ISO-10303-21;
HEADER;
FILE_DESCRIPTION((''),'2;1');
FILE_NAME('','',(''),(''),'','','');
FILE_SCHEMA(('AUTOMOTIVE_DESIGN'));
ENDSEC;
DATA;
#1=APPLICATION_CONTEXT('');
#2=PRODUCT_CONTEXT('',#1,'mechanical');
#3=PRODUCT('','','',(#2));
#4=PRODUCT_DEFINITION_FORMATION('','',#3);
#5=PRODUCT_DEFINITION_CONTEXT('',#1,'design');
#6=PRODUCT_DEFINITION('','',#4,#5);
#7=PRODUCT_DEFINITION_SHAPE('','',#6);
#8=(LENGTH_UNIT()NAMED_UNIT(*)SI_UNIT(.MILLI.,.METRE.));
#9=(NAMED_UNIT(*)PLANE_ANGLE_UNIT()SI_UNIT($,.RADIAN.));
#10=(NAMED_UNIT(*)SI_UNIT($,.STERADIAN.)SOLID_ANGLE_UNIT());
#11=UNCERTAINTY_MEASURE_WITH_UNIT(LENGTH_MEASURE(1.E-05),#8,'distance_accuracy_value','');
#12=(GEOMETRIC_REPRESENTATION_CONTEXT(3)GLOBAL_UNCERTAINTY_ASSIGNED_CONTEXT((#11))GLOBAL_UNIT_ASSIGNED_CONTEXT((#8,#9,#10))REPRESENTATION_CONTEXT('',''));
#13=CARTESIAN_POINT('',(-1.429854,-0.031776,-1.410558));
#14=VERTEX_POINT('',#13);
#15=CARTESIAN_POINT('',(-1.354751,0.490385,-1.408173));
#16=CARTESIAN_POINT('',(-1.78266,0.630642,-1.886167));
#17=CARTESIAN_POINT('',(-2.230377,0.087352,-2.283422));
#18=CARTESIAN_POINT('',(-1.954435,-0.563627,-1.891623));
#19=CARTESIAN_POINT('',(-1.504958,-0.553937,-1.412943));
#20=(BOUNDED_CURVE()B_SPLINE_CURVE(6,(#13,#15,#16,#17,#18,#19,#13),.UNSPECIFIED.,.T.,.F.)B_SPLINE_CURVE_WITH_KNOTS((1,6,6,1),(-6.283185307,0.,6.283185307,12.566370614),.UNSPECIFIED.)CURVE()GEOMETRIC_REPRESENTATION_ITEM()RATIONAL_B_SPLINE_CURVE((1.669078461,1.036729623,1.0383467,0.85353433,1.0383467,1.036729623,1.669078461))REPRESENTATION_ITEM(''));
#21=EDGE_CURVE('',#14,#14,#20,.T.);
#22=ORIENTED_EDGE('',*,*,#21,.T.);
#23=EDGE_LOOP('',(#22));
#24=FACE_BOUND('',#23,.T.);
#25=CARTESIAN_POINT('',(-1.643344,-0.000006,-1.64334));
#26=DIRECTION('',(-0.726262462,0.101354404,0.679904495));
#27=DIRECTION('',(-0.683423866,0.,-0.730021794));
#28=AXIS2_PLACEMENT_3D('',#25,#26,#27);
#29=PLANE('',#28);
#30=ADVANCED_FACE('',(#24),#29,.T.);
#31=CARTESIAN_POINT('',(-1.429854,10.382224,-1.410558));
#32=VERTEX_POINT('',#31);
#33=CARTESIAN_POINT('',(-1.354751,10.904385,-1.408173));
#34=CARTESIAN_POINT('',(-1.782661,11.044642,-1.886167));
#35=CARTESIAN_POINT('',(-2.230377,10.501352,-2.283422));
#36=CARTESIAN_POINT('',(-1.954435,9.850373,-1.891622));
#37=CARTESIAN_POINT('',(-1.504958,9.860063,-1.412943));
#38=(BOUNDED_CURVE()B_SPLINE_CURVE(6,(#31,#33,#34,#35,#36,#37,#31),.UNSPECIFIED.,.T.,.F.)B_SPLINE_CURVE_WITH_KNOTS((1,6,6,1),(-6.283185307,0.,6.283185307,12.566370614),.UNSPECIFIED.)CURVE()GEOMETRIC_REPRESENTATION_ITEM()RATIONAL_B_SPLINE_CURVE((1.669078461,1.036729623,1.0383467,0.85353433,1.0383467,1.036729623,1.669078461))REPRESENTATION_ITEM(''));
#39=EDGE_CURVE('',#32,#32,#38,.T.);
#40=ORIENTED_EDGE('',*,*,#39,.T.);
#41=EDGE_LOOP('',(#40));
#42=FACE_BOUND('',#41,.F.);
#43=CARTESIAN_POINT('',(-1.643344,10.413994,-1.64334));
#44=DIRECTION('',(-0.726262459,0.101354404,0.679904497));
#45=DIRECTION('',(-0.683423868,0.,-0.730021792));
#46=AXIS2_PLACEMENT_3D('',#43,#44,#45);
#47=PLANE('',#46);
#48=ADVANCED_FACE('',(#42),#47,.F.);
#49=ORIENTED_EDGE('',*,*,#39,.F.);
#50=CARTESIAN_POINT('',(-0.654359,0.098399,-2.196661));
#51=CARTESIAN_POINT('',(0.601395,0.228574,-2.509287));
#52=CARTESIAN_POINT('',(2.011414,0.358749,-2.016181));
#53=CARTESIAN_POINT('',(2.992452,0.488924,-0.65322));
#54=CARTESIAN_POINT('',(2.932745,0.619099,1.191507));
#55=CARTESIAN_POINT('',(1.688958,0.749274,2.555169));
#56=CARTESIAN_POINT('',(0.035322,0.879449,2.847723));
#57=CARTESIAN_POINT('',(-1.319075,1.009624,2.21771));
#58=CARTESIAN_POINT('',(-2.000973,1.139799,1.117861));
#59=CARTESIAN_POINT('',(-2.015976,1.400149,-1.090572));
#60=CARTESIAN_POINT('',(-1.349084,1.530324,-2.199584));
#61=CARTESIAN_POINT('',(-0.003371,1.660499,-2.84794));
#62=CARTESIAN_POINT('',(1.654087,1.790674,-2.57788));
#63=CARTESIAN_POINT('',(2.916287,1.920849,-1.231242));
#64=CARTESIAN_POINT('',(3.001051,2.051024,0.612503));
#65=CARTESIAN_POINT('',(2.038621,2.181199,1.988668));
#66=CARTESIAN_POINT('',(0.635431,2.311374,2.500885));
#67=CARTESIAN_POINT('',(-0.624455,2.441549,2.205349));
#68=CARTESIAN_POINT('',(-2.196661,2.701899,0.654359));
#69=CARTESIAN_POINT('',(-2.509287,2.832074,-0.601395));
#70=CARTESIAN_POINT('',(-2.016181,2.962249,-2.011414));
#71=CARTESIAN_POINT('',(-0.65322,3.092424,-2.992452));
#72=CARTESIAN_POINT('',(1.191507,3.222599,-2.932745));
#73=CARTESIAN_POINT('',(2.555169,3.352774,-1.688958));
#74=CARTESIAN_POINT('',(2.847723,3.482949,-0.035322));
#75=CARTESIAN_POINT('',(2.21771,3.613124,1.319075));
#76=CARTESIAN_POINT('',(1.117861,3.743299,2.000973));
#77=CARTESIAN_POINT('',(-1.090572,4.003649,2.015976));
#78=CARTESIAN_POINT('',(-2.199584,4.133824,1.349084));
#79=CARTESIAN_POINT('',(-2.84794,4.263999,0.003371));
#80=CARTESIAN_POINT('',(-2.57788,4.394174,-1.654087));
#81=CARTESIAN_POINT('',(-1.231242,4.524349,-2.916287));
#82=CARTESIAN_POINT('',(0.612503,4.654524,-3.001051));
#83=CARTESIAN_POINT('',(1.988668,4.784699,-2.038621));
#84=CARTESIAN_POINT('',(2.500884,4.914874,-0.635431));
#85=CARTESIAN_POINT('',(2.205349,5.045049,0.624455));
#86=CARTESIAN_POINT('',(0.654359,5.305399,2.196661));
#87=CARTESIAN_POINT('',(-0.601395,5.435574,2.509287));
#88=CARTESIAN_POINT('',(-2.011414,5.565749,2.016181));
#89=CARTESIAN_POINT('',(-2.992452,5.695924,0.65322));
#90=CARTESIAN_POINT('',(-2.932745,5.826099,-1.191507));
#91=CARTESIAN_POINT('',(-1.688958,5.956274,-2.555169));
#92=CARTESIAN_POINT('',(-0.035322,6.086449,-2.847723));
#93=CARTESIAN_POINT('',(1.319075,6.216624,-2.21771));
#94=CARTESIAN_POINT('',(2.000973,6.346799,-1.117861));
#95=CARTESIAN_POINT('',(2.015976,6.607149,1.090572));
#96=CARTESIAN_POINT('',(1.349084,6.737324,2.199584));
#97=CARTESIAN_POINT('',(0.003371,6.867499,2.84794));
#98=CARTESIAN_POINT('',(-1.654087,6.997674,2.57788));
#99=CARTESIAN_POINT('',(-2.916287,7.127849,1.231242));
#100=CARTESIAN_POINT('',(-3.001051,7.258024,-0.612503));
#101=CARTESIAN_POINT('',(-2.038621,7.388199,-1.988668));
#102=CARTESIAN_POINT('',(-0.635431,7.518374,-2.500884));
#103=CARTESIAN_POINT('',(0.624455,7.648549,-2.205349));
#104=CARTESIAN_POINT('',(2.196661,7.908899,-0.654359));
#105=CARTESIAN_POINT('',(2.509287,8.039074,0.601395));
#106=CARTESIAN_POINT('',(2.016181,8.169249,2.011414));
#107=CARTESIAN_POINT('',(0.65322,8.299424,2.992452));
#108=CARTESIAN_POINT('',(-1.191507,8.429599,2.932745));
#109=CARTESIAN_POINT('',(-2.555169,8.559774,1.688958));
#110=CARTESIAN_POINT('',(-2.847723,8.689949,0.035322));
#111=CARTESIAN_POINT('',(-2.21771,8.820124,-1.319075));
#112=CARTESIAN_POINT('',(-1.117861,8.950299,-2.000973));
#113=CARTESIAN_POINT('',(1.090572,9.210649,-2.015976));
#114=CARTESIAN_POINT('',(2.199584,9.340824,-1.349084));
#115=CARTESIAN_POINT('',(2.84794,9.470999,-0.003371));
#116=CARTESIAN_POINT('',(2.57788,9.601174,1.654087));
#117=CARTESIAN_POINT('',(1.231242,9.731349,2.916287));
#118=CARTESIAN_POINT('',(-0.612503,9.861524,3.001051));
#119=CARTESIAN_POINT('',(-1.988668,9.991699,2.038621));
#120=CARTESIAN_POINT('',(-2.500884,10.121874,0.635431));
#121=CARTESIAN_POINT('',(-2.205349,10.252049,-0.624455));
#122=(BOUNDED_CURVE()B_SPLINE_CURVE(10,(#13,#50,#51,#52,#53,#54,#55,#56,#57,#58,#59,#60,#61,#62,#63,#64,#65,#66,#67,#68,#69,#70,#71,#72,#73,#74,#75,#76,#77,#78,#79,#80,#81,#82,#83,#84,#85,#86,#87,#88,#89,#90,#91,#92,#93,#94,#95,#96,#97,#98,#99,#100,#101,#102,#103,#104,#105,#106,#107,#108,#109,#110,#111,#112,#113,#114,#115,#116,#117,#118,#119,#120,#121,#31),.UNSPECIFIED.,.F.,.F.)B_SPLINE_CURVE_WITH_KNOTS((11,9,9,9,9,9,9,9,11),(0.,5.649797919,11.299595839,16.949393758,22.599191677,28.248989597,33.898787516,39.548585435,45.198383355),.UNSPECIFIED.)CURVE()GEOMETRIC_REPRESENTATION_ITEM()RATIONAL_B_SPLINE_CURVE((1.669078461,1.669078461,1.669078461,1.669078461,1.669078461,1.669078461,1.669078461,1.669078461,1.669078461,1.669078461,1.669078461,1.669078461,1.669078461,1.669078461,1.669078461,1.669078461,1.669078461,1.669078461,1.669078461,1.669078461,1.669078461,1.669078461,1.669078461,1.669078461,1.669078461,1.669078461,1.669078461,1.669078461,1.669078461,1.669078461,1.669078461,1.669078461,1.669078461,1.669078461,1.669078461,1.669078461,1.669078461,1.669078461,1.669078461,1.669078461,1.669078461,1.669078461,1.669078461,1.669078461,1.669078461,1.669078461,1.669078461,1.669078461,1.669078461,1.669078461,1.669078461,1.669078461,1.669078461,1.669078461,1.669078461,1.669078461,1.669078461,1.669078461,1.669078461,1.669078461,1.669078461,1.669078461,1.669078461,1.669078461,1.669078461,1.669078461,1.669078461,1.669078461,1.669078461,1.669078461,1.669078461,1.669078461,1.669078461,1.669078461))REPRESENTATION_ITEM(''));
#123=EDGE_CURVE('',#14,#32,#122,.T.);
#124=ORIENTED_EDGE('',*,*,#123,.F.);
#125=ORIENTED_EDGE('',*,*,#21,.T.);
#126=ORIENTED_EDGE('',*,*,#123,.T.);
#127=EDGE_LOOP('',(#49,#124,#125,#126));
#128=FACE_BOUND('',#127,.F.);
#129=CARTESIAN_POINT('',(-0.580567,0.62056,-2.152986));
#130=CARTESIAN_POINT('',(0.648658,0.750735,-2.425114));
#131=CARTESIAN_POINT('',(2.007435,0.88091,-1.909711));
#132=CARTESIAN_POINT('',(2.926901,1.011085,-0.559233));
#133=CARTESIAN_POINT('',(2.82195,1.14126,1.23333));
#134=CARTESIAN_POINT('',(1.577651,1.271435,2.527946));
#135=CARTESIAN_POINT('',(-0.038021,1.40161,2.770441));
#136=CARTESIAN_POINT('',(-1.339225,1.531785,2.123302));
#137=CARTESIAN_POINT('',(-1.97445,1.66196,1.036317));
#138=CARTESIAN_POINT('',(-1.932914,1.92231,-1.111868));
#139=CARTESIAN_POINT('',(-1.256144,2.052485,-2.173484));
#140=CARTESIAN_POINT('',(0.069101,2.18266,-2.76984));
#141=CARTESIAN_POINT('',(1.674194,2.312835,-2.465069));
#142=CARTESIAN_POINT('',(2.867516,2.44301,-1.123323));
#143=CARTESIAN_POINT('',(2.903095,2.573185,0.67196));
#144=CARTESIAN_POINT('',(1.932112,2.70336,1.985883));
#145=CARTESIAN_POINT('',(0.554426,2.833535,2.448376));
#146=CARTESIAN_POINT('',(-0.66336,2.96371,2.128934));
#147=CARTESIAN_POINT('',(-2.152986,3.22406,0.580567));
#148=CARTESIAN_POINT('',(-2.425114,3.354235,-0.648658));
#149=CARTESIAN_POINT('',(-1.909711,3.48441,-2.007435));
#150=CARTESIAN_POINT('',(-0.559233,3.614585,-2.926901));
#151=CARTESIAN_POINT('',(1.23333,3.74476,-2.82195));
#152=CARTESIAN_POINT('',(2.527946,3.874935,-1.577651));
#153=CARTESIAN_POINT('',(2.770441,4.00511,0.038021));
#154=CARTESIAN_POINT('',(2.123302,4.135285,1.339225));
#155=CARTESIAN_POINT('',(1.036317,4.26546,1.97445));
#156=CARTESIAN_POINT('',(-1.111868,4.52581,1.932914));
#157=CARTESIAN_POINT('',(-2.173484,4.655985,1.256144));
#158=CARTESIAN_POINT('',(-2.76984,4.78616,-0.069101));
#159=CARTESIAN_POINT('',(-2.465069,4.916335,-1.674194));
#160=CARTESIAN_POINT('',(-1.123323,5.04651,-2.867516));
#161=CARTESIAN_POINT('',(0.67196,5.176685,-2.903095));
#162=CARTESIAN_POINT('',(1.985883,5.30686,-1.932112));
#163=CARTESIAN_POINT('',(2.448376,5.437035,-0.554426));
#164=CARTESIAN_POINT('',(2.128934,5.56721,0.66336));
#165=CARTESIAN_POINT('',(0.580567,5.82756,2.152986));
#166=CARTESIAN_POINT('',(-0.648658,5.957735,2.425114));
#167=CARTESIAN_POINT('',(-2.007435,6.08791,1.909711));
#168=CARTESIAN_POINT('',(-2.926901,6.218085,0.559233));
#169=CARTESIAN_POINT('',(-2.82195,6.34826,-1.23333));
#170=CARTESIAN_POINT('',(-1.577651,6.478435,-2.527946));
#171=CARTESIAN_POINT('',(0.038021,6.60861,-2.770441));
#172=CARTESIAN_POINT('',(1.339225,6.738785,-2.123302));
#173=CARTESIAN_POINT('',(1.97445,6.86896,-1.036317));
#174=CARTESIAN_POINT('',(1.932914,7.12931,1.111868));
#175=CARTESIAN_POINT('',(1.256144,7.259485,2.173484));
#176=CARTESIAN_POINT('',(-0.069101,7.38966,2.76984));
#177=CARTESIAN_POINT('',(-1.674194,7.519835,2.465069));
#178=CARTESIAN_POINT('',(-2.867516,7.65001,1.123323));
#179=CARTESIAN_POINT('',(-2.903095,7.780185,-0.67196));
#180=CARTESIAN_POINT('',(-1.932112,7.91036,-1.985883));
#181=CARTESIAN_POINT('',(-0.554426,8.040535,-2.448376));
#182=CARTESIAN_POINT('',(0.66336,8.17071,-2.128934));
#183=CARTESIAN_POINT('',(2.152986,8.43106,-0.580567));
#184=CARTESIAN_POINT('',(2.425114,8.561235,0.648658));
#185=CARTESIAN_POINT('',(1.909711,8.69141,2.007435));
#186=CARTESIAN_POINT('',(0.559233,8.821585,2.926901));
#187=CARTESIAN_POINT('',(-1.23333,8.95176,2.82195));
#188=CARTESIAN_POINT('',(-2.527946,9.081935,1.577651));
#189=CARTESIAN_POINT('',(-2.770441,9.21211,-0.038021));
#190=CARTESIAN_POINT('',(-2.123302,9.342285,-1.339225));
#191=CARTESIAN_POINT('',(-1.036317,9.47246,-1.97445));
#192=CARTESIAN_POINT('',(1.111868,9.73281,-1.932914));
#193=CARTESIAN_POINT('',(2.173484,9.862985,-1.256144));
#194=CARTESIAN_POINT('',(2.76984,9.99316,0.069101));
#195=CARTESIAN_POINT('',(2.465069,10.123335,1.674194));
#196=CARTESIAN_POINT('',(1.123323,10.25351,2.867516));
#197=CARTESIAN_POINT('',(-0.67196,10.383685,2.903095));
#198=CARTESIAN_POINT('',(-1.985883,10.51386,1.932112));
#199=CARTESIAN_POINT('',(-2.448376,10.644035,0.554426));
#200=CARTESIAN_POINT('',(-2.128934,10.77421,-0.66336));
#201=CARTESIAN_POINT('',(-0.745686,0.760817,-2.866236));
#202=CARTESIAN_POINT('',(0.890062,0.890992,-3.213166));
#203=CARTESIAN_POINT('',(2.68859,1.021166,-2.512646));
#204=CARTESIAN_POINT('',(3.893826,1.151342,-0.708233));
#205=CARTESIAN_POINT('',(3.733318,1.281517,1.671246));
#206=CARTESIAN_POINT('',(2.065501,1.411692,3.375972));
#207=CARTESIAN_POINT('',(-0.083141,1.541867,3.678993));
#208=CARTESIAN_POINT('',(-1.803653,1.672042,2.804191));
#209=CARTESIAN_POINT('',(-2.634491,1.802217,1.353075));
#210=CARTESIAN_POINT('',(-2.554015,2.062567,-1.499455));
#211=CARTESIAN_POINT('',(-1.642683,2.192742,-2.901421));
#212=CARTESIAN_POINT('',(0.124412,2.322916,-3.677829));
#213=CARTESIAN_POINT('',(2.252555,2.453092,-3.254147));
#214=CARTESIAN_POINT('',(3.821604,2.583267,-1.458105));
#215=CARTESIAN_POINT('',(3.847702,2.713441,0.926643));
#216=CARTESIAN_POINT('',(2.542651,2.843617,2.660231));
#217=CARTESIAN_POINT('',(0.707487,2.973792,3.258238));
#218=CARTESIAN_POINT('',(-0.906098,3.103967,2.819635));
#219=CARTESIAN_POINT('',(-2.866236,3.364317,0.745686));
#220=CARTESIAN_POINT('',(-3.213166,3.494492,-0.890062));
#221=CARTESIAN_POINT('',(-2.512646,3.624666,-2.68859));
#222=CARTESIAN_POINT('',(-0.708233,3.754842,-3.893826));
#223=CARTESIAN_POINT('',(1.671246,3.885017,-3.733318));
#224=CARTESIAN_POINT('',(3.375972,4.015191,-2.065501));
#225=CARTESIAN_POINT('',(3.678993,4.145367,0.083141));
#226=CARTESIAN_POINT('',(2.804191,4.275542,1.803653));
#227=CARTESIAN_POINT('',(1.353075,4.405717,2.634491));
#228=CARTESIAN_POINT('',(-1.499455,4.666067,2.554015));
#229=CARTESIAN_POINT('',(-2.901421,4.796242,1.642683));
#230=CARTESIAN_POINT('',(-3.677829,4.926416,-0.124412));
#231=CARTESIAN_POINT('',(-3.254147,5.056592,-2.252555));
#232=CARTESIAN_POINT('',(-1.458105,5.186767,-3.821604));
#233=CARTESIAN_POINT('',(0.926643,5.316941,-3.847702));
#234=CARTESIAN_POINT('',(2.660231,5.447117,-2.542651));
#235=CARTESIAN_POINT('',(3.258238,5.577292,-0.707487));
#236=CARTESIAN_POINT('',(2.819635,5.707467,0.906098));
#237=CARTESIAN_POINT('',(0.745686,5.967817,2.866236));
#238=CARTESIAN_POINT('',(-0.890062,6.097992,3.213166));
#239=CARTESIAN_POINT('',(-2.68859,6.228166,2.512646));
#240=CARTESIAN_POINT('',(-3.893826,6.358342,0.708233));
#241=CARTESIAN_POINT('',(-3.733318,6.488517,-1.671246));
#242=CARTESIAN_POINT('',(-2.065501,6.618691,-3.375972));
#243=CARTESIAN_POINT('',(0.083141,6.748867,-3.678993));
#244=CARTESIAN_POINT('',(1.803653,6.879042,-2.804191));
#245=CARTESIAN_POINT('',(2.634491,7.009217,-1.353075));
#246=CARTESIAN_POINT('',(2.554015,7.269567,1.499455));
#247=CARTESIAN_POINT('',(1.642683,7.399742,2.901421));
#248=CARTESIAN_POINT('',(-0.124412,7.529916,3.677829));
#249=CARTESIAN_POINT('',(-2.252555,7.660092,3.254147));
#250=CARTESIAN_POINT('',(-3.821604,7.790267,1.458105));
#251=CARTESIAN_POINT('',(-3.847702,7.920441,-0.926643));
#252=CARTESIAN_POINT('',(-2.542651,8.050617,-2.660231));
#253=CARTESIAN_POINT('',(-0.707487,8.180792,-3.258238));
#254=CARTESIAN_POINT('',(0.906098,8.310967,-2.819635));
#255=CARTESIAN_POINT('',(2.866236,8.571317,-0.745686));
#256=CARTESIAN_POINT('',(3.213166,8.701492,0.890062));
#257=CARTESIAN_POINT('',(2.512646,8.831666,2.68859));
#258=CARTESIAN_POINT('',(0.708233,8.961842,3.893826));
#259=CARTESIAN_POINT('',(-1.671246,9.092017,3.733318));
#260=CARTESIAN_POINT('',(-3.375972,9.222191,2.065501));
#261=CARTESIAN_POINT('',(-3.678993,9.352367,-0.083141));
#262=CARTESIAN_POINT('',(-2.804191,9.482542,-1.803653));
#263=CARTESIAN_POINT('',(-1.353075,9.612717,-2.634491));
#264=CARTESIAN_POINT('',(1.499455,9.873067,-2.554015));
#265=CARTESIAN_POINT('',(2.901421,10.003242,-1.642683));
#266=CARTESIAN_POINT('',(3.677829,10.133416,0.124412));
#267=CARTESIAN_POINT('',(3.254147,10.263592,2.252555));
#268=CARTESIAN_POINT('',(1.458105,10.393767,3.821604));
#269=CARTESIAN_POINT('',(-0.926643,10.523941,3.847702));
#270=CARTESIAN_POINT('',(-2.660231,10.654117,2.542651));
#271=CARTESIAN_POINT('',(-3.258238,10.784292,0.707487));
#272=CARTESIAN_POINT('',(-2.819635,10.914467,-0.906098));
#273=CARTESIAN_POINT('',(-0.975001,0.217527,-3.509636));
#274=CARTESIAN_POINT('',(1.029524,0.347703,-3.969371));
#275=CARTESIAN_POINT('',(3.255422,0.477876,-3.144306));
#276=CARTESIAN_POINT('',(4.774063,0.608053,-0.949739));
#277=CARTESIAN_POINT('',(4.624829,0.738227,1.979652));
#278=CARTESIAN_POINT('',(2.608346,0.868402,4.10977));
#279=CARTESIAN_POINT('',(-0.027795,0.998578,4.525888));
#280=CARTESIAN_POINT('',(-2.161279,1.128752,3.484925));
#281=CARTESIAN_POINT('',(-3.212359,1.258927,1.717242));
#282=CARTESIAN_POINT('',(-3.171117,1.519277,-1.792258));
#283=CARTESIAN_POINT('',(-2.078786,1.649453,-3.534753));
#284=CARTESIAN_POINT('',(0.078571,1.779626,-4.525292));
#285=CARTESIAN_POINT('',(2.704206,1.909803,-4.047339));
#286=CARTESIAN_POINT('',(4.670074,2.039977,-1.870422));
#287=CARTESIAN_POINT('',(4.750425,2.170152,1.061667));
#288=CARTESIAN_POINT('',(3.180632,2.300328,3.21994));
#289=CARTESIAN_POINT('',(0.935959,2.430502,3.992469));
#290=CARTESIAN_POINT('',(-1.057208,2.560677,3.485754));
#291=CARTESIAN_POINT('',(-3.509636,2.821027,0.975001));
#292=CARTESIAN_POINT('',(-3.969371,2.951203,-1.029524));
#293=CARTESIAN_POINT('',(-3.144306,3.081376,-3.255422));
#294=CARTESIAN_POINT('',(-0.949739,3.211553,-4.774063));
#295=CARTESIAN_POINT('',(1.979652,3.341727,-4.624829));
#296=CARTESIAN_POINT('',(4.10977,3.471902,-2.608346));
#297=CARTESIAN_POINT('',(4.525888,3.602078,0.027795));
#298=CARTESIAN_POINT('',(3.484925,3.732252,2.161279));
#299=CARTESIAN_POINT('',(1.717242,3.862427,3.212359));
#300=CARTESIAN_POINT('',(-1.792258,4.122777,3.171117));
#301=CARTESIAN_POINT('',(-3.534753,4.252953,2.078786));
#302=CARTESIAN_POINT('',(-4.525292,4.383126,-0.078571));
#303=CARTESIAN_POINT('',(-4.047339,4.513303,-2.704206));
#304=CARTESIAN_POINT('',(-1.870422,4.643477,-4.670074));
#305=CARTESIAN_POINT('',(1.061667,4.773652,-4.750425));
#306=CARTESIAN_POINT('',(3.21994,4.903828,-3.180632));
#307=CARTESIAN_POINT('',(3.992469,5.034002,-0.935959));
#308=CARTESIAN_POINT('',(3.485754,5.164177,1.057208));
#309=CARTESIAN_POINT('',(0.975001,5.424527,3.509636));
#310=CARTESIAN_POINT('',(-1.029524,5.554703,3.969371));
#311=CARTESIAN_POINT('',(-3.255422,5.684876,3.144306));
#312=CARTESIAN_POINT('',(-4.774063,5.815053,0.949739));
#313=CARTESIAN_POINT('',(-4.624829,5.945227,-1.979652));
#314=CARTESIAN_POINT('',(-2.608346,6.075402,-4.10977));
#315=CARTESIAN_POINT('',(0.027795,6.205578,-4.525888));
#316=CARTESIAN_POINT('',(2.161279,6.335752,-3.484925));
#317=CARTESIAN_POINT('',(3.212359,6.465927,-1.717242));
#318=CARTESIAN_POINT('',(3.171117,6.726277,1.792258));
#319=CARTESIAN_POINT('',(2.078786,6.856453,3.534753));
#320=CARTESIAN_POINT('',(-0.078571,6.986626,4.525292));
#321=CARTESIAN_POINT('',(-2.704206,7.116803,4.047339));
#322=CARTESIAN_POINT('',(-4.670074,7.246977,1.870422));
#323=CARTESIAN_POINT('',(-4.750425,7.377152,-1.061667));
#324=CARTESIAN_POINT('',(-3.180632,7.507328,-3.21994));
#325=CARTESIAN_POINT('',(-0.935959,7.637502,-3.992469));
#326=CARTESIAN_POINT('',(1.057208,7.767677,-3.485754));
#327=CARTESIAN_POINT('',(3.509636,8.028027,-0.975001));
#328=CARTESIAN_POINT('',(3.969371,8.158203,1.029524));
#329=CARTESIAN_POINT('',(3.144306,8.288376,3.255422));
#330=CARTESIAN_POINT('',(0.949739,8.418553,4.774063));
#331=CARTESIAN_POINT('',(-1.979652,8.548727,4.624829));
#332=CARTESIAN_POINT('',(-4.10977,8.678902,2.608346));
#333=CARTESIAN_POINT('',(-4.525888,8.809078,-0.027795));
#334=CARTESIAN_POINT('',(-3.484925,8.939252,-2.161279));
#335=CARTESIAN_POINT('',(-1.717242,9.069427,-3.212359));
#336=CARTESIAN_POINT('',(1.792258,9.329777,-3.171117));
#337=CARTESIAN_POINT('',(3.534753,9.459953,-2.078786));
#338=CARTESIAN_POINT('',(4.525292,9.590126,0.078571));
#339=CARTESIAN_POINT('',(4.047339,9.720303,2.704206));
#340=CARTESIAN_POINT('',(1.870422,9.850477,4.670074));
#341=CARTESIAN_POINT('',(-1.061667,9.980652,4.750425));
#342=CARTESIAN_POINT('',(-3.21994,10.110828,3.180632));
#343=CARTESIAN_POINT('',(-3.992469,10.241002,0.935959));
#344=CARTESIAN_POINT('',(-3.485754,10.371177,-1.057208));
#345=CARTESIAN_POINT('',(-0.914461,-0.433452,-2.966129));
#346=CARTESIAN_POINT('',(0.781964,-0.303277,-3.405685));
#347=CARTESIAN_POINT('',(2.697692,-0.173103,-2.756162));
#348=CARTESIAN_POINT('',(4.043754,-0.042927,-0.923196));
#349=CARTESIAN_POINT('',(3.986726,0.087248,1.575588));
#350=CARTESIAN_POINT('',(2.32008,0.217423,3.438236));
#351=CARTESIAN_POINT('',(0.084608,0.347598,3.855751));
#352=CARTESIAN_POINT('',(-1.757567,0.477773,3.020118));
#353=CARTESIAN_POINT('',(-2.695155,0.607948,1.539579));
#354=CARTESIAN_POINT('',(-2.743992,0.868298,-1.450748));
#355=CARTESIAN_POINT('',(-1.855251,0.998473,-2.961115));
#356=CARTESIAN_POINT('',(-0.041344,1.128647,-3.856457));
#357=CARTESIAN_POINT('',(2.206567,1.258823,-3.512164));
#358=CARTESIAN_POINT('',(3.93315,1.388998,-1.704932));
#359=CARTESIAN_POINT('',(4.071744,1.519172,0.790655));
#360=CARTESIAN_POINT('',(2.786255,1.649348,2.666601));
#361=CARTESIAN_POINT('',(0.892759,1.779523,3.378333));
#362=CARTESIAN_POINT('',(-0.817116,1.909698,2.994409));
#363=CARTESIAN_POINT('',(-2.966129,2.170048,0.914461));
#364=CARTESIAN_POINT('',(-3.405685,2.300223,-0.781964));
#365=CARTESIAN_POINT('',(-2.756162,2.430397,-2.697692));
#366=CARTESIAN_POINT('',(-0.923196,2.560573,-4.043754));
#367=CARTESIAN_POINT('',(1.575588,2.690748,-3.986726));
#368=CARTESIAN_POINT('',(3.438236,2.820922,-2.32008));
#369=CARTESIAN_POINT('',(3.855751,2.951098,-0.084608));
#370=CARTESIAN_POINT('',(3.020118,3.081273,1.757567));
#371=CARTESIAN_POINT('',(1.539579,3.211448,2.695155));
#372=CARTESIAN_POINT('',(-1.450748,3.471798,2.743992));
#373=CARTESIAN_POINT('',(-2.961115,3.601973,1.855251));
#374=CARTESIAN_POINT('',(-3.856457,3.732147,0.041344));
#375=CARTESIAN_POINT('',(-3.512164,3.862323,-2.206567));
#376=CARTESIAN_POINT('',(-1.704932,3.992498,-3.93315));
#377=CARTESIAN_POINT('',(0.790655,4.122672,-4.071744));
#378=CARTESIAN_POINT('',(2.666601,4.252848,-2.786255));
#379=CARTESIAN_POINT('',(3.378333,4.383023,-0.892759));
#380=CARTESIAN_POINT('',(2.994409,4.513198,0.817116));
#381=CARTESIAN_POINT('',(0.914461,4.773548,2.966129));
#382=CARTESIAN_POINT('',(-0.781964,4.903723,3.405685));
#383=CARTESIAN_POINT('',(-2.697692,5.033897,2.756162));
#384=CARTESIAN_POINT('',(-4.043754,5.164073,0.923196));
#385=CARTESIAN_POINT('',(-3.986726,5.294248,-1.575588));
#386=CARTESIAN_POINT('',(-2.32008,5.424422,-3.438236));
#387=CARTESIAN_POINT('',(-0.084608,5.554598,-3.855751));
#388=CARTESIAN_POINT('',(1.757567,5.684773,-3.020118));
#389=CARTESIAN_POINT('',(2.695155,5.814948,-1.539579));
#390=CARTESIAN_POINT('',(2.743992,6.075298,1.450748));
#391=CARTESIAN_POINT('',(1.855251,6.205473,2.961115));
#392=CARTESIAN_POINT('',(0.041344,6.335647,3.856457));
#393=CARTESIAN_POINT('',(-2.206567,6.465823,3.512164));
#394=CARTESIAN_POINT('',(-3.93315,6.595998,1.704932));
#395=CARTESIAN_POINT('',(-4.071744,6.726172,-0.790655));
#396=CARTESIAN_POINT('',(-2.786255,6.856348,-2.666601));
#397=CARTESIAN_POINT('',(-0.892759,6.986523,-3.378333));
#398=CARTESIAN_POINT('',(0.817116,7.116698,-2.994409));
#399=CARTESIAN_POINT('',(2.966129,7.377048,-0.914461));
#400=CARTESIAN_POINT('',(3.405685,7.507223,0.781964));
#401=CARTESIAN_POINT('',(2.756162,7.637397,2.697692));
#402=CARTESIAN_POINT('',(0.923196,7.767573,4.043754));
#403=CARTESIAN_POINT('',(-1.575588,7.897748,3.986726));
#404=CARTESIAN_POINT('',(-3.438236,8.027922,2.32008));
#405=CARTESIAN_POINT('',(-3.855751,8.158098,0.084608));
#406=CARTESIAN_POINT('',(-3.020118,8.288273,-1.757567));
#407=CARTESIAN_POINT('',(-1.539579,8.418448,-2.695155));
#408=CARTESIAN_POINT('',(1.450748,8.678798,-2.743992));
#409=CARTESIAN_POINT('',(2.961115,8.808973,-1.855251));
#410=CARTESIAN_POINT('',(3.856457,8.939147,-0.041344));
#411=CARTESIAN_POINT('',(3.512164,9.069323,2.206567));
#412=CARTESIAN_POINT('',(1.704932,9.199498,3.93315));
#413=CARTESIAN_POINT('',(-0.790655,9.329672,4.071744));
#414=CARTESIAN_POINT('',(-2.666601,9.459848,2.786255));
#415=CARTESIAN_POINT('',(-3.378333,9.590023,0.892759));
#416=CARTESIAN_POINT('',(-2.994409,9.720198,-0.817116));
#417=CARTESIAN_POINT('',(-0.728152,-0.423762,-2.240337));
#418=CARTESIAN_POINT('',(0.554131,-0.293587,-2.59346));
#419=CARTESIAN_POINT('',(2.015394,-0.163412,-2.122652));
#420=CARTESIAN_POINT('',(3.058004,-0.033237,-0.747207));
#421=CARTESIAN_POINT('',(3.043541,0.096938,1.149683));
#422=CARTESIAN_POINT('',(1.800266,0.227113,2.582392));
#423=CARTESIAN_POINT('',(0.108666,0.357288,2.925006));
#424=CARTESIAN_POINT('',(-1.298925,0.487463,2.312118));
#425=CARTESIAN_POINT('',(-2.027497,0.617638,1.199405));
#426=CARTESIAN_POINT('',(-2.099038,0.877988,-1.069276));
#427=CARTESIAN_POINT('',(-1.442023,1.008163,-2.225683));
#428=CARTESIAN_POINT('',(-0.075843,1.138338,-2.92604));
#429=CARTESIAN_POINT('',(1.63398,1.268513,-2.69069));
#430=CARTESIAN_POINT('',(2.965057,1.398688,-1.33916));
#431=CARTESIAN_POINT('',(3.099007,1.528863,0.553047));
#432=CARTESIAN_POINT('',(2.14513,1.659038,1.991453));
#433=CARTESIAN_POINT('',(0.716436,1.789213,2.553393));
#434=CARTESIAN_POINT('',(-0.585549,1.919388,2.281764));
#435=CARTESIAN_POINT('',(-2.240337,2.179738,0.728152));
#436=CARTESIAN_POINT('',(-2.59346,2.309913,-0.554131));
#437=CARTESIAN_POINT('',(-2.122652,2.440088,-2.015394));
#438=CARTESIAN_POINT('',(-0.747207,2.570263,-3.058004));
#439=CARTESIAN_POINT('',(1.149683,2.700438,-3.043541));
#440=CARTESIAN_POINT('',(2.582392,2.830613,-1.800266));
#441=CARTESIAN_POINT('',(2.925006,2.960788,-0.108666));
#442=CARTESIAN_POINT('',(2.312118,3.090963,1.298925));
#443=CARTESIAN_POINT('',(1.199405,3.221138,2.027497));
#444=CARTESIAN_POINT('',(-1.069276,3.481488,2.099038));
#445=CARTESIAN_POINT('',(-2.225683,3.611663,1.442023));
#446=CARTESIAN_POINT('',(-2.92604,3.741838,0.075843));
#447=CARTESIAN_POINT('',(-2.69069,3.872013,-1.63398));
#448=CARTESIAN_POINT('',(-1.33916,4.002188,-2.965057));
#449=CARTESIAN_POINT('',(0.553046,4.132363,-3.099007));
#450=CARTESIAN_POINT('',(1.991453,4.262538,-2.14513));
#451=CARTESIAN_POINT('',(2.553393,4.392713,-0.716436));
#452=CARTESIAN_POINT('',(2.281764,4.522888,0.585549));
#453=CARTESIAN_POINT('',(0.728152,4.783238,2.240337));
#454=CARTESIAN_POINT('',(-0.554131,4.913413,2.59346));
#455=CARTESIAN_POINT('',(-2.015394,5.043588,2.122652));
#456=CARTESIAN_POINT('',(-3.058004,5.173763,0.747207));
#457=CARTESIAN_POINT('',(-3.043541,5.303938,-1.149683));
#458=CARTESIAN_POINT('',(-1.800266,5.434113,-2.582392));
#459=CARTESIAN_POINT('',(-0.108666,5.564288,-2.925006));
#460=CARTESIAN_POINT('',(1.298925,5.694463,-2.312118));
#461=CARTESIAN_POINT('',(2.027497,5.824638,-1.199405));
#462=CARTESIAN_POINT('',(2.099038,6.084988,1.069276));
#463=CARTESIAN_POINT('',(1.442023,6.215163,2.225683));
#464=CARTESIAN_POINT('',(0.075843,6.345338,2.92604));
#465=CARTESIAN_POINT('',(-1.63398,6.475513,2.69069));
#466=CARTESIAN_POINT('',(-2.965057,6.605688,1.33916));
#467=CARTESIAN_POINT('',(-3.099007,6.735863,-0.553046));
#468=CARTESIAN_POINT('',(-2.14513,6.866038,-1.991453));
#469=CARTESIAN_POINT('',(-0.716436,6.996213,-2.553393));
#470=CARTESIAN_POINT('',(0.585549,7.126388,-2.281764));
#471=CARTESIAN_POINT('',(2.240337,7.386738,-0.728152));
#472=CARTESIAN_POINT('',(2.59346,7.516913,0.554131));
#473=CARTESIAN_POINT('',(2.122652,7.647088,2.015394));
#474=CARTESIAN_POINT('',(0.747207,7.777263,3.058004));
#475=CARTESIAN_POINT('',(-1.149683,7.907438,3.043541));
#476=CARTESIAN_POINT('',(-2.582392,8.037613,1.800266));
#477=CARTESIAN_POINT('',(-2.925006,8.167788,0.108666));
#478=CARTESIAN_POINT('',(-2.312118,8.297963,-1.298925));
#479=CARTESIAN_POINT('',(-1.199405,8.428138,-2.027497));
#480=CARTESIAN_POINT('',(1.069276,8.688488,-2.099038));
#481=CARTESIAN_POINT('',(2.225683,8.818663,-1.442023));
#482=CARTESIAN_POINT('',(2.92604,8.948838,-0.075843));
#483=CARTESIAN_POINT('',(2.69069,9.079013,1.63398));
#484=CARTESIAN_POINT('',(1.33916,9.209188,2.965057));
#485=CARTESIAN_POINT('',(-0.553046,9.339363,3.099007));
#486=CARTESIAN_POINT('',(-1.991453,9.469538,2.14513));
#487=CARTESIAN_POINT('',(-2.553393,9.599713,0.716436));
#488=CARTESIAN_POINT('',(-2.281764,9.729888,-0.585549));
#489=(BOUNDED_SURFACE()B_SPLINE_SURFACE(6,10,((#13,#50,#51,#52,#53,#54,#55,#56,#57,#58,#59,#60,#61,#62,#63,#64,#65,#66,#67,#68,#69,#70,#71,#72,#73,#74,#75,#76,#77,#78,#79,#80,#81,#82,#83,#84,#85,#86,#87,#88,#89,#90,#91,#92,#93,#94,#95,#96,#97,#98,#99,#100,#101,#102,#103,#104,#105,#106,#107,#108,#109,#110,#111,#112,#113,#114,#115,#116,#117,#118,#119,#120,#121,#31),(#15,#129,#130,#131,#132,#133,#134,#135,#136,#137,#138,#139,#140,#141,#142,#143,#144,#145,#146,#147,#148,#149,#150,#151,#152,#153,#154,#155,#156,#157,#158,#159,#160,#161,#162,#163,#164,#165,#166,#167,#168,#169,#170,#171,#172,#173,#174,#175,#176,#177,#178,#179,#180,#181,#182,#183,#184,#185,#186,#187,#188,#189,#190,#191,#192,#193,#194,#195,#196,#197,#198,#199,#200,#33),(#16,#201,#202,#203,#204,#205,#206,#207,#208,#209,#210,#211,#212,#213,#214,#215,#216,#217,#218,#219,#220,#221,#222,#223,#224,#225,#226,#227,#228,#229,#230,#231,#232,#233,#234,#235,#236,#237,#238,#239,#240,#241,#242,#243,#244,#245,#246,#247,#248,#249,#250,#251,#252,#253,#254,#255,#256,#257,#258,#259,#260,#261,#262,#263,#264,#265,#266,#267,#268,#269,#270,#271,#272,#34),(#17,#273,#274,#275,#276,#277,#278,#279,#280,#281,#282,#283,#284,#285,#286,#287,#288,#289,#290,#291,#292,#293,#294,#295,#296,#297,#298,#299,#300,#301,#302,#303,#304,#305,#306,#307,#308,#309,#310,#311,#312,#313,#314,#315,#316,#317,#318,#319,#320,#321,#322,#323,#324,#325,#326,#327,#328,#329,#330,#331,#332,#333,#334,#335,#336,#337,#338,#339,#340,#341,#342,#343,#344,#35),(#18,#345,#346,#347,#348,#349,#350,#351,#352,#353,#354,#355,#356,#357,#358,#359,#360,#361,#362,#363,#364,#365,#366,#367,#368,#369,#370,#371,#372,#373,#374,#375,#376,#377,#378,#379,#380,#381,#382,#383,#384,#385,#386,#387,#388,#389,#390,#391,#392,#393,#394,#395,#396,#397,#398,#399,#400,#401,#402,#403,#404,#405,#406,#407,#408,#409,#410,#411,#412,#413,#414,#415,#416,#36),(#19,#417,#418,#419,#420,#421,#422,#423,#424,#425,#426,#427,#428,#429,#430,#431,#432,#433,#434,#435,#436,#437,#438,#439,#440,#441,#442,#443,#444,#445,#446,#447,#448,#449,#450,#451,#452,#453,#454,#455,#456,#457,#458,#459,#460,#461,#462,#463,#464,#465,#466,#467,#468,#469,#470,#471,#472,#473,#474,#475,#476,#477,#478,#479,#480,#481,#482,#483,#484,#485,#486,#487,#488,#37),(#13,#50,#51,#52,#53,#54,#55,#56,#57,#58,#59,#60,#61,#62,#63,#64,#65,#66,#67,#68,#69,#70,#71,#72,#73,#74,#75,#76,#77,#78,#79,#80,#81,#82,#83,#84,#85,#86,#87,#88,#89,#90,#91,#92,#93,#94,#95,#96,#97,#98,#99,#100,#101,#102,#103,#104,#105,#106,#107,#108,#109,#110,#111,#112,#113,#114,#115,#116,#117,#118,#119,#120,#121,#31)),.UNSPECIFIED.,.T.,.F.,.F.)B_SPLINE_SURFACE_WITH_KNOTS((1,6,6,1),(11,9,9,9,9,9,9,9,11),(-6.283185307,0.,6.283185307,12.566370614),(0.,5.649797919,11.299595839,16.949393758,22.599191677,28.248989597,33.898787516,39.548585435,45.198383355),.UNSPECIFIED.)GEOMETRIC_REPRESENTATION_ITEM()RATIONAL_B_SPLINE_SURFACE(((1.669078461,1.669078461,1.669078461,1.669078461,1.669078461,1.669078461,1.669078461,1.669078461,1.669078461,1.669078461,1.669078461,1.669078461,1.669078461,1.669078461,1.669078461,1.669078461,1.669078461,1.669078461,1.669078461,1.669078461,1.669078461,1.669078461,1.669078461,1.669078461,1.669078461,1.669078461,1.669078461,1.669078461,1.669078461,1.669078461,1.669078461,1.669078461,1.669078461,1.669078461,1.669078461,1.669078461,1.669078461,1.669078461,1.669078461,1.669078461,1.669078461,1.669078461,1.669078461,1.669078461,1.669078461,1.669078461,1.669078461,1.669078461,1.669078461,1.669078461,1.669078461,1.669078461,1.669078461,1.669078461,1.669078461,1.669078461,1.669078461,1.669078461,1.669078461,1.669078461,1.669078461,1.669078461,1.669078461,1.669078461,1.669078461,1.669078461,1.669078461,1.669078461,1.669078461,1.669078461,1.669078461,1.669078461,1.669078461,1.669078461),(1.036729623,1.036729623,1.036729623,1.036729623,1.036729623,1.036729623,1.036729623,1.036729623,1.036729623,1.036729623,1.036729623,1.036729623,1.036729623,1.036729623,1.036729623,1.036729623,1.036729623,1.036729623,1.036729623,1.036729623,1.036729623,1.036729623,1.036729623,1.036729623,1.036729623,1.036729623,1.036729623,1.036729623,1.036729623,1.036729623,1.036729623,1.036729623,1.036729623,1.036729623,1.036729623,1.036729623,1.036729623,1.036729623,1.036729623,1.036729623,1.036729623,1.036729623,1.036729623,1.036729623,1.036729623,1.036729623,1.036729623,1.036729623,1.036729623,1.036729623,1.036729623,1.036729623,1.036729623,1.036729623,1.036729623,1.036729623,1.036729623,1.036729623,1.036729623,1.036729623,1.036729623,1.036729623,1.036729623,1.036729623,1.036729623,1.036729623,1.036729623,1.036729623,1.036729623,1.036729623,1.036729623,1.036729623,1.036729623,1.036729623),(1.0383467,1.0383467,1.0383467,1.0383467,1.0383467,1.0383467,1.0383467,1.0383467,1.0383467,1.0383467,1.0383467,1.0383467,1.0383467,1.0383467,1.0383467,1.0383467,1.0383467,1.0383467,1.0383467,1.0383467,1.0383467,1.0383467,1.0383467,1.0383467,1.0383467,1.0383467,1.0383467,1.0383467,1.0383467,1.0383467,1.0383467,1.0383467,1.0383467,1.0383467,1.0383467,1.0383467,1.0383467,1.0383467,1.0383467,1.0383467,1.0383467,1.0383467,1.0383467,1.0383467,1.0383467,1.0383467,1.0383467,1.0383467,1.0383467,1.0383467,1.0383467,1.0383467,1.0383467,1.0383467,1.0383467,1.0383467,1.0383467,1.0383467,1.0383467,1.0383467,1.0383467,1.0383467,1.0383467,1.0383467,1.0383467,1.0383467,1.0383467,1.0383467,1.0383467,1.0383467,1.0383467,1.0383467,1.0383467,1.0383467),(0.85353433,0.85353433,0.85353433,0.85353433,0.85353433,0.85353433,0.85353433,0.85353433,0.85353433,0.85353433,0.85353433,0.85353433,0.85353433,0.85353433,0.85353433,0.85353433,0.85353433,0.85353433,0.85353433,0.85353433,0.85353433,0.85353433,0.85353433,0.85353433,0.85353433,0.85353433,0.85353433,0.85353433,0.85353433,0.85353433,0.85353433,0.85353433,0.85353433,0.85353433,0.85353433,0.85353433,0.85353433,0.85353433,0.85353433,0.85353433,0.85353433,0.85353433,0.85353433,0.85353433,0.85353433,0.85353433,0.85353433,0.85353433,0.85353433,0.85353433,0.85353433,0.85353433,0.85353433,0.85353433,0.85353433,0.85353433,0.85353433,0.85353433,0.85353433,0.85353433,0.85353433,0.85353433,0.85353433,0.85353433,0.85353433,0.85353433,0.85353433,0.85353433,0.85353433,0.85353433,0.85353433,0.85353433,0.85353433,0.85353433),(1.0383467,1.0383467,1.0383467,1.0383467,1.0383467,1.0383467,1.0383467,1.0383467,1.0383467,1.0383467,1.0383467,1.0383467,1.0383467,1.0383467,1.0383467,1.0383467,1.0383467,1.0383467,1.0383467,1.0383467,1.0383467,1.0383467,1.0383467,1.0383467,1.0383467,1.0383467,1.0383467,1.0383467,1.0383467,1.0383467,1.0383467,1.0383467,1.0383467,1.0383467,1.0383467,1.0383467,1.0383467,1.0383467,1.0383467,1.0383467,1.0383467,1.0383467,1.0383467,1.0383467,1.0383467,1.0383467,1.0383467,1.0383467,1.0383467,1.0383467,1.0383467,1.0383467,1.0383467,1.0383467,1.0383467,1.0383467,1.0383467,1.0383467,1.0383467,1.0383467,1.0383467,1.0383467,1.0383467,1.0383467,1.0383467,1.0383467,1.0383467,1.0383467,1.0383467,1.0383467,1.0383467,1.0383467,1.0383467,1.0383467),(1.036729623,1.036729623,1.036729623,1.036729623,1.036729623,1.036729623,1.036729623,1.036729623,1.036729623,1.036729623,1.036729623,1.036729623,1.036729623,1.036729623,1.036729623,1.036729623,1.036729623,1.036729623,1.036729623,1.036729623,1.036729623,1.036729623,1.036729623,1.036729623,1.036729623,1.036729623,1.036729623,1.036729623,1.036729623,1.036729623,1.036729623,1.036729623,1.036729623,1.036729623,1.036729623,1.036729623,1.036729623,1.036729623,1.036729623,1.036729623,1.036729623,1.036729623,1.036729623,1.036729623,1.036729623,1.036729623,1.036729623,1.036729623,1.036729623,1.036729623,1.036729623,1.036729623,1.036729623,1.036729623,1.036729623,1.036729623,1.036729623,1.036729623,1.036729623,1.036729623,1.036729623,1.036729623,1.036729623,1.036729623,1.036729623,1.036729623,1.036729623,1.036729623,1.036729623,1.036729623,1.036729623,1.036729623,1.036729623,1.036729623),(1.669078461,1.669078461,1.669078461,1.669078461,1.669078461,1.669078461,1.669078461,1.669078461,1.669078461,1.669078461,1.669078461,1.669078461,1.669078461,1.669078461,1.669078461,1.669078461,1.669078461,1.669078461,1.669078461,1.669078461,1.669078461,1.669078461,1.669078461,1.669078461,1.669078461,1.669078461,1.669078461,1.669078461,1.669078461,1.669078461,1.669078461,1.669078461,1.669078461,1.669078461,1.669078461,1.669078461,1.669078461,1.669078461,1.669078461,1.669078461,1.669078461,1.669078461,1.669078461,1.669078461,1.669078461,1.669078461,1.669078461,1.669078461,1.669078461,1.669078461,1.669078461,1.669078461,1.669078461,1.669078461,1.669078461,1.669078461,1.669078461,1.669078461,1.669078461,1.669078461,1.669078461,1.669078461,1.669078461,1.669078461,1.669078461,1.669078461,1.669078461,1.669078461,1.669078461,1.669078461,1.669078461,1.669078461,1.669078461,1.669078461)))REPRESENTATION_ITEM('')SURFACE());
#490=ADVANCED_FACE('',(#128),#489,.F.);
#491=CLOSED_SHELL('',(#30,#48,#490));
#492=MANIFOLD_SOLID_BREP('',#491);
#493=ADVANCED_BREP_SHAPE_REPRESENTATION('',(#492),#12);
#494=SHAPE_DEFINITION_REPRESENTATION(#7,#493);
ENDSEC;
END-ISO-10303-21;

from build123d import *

# Parameters (mm, degrees)
SWEEP1_PITCH       = 1.487714286
SWEEP1_HEIGHT      = 10.414
SWEEP1_RADIUS      = 2.3241
SWEEP1_START_ANGLE = -135
SKETCH2_R          = 0.3175


with BuildPart() as part:
    # Sweep1: sweep along a helix
    with BuildLine() as sweep1_path:
        add(Helix(SWEEP1_PITCH, SWEEP1_HEIGHT, SWEEP1_RADIUS, center=(0, 0, 0), direction=(0, 1, 0), lefthand=True, mode=Mode.PRIVATE).rotate(Axis((0, 0, 0), (0, 1, 0)), SWEEP1_START_ANGLE))
    # Sketch2 → Sweep1 (sweep)
    with BuildSketch(Plane(origin=(-1.64338687, 10.414, -1.64338687), x_dir=(-0.696310209, -0.100078792, -0.710729434), z_dir=(0.703465452, 0.101354404, -0.703465452))):
        with Locations((-4.547345281, -1.219185237)):
            Circle(SKETCH2_R)
    sweep(path=sweep1_path.line, is_frenet=True)


solid = part.part
